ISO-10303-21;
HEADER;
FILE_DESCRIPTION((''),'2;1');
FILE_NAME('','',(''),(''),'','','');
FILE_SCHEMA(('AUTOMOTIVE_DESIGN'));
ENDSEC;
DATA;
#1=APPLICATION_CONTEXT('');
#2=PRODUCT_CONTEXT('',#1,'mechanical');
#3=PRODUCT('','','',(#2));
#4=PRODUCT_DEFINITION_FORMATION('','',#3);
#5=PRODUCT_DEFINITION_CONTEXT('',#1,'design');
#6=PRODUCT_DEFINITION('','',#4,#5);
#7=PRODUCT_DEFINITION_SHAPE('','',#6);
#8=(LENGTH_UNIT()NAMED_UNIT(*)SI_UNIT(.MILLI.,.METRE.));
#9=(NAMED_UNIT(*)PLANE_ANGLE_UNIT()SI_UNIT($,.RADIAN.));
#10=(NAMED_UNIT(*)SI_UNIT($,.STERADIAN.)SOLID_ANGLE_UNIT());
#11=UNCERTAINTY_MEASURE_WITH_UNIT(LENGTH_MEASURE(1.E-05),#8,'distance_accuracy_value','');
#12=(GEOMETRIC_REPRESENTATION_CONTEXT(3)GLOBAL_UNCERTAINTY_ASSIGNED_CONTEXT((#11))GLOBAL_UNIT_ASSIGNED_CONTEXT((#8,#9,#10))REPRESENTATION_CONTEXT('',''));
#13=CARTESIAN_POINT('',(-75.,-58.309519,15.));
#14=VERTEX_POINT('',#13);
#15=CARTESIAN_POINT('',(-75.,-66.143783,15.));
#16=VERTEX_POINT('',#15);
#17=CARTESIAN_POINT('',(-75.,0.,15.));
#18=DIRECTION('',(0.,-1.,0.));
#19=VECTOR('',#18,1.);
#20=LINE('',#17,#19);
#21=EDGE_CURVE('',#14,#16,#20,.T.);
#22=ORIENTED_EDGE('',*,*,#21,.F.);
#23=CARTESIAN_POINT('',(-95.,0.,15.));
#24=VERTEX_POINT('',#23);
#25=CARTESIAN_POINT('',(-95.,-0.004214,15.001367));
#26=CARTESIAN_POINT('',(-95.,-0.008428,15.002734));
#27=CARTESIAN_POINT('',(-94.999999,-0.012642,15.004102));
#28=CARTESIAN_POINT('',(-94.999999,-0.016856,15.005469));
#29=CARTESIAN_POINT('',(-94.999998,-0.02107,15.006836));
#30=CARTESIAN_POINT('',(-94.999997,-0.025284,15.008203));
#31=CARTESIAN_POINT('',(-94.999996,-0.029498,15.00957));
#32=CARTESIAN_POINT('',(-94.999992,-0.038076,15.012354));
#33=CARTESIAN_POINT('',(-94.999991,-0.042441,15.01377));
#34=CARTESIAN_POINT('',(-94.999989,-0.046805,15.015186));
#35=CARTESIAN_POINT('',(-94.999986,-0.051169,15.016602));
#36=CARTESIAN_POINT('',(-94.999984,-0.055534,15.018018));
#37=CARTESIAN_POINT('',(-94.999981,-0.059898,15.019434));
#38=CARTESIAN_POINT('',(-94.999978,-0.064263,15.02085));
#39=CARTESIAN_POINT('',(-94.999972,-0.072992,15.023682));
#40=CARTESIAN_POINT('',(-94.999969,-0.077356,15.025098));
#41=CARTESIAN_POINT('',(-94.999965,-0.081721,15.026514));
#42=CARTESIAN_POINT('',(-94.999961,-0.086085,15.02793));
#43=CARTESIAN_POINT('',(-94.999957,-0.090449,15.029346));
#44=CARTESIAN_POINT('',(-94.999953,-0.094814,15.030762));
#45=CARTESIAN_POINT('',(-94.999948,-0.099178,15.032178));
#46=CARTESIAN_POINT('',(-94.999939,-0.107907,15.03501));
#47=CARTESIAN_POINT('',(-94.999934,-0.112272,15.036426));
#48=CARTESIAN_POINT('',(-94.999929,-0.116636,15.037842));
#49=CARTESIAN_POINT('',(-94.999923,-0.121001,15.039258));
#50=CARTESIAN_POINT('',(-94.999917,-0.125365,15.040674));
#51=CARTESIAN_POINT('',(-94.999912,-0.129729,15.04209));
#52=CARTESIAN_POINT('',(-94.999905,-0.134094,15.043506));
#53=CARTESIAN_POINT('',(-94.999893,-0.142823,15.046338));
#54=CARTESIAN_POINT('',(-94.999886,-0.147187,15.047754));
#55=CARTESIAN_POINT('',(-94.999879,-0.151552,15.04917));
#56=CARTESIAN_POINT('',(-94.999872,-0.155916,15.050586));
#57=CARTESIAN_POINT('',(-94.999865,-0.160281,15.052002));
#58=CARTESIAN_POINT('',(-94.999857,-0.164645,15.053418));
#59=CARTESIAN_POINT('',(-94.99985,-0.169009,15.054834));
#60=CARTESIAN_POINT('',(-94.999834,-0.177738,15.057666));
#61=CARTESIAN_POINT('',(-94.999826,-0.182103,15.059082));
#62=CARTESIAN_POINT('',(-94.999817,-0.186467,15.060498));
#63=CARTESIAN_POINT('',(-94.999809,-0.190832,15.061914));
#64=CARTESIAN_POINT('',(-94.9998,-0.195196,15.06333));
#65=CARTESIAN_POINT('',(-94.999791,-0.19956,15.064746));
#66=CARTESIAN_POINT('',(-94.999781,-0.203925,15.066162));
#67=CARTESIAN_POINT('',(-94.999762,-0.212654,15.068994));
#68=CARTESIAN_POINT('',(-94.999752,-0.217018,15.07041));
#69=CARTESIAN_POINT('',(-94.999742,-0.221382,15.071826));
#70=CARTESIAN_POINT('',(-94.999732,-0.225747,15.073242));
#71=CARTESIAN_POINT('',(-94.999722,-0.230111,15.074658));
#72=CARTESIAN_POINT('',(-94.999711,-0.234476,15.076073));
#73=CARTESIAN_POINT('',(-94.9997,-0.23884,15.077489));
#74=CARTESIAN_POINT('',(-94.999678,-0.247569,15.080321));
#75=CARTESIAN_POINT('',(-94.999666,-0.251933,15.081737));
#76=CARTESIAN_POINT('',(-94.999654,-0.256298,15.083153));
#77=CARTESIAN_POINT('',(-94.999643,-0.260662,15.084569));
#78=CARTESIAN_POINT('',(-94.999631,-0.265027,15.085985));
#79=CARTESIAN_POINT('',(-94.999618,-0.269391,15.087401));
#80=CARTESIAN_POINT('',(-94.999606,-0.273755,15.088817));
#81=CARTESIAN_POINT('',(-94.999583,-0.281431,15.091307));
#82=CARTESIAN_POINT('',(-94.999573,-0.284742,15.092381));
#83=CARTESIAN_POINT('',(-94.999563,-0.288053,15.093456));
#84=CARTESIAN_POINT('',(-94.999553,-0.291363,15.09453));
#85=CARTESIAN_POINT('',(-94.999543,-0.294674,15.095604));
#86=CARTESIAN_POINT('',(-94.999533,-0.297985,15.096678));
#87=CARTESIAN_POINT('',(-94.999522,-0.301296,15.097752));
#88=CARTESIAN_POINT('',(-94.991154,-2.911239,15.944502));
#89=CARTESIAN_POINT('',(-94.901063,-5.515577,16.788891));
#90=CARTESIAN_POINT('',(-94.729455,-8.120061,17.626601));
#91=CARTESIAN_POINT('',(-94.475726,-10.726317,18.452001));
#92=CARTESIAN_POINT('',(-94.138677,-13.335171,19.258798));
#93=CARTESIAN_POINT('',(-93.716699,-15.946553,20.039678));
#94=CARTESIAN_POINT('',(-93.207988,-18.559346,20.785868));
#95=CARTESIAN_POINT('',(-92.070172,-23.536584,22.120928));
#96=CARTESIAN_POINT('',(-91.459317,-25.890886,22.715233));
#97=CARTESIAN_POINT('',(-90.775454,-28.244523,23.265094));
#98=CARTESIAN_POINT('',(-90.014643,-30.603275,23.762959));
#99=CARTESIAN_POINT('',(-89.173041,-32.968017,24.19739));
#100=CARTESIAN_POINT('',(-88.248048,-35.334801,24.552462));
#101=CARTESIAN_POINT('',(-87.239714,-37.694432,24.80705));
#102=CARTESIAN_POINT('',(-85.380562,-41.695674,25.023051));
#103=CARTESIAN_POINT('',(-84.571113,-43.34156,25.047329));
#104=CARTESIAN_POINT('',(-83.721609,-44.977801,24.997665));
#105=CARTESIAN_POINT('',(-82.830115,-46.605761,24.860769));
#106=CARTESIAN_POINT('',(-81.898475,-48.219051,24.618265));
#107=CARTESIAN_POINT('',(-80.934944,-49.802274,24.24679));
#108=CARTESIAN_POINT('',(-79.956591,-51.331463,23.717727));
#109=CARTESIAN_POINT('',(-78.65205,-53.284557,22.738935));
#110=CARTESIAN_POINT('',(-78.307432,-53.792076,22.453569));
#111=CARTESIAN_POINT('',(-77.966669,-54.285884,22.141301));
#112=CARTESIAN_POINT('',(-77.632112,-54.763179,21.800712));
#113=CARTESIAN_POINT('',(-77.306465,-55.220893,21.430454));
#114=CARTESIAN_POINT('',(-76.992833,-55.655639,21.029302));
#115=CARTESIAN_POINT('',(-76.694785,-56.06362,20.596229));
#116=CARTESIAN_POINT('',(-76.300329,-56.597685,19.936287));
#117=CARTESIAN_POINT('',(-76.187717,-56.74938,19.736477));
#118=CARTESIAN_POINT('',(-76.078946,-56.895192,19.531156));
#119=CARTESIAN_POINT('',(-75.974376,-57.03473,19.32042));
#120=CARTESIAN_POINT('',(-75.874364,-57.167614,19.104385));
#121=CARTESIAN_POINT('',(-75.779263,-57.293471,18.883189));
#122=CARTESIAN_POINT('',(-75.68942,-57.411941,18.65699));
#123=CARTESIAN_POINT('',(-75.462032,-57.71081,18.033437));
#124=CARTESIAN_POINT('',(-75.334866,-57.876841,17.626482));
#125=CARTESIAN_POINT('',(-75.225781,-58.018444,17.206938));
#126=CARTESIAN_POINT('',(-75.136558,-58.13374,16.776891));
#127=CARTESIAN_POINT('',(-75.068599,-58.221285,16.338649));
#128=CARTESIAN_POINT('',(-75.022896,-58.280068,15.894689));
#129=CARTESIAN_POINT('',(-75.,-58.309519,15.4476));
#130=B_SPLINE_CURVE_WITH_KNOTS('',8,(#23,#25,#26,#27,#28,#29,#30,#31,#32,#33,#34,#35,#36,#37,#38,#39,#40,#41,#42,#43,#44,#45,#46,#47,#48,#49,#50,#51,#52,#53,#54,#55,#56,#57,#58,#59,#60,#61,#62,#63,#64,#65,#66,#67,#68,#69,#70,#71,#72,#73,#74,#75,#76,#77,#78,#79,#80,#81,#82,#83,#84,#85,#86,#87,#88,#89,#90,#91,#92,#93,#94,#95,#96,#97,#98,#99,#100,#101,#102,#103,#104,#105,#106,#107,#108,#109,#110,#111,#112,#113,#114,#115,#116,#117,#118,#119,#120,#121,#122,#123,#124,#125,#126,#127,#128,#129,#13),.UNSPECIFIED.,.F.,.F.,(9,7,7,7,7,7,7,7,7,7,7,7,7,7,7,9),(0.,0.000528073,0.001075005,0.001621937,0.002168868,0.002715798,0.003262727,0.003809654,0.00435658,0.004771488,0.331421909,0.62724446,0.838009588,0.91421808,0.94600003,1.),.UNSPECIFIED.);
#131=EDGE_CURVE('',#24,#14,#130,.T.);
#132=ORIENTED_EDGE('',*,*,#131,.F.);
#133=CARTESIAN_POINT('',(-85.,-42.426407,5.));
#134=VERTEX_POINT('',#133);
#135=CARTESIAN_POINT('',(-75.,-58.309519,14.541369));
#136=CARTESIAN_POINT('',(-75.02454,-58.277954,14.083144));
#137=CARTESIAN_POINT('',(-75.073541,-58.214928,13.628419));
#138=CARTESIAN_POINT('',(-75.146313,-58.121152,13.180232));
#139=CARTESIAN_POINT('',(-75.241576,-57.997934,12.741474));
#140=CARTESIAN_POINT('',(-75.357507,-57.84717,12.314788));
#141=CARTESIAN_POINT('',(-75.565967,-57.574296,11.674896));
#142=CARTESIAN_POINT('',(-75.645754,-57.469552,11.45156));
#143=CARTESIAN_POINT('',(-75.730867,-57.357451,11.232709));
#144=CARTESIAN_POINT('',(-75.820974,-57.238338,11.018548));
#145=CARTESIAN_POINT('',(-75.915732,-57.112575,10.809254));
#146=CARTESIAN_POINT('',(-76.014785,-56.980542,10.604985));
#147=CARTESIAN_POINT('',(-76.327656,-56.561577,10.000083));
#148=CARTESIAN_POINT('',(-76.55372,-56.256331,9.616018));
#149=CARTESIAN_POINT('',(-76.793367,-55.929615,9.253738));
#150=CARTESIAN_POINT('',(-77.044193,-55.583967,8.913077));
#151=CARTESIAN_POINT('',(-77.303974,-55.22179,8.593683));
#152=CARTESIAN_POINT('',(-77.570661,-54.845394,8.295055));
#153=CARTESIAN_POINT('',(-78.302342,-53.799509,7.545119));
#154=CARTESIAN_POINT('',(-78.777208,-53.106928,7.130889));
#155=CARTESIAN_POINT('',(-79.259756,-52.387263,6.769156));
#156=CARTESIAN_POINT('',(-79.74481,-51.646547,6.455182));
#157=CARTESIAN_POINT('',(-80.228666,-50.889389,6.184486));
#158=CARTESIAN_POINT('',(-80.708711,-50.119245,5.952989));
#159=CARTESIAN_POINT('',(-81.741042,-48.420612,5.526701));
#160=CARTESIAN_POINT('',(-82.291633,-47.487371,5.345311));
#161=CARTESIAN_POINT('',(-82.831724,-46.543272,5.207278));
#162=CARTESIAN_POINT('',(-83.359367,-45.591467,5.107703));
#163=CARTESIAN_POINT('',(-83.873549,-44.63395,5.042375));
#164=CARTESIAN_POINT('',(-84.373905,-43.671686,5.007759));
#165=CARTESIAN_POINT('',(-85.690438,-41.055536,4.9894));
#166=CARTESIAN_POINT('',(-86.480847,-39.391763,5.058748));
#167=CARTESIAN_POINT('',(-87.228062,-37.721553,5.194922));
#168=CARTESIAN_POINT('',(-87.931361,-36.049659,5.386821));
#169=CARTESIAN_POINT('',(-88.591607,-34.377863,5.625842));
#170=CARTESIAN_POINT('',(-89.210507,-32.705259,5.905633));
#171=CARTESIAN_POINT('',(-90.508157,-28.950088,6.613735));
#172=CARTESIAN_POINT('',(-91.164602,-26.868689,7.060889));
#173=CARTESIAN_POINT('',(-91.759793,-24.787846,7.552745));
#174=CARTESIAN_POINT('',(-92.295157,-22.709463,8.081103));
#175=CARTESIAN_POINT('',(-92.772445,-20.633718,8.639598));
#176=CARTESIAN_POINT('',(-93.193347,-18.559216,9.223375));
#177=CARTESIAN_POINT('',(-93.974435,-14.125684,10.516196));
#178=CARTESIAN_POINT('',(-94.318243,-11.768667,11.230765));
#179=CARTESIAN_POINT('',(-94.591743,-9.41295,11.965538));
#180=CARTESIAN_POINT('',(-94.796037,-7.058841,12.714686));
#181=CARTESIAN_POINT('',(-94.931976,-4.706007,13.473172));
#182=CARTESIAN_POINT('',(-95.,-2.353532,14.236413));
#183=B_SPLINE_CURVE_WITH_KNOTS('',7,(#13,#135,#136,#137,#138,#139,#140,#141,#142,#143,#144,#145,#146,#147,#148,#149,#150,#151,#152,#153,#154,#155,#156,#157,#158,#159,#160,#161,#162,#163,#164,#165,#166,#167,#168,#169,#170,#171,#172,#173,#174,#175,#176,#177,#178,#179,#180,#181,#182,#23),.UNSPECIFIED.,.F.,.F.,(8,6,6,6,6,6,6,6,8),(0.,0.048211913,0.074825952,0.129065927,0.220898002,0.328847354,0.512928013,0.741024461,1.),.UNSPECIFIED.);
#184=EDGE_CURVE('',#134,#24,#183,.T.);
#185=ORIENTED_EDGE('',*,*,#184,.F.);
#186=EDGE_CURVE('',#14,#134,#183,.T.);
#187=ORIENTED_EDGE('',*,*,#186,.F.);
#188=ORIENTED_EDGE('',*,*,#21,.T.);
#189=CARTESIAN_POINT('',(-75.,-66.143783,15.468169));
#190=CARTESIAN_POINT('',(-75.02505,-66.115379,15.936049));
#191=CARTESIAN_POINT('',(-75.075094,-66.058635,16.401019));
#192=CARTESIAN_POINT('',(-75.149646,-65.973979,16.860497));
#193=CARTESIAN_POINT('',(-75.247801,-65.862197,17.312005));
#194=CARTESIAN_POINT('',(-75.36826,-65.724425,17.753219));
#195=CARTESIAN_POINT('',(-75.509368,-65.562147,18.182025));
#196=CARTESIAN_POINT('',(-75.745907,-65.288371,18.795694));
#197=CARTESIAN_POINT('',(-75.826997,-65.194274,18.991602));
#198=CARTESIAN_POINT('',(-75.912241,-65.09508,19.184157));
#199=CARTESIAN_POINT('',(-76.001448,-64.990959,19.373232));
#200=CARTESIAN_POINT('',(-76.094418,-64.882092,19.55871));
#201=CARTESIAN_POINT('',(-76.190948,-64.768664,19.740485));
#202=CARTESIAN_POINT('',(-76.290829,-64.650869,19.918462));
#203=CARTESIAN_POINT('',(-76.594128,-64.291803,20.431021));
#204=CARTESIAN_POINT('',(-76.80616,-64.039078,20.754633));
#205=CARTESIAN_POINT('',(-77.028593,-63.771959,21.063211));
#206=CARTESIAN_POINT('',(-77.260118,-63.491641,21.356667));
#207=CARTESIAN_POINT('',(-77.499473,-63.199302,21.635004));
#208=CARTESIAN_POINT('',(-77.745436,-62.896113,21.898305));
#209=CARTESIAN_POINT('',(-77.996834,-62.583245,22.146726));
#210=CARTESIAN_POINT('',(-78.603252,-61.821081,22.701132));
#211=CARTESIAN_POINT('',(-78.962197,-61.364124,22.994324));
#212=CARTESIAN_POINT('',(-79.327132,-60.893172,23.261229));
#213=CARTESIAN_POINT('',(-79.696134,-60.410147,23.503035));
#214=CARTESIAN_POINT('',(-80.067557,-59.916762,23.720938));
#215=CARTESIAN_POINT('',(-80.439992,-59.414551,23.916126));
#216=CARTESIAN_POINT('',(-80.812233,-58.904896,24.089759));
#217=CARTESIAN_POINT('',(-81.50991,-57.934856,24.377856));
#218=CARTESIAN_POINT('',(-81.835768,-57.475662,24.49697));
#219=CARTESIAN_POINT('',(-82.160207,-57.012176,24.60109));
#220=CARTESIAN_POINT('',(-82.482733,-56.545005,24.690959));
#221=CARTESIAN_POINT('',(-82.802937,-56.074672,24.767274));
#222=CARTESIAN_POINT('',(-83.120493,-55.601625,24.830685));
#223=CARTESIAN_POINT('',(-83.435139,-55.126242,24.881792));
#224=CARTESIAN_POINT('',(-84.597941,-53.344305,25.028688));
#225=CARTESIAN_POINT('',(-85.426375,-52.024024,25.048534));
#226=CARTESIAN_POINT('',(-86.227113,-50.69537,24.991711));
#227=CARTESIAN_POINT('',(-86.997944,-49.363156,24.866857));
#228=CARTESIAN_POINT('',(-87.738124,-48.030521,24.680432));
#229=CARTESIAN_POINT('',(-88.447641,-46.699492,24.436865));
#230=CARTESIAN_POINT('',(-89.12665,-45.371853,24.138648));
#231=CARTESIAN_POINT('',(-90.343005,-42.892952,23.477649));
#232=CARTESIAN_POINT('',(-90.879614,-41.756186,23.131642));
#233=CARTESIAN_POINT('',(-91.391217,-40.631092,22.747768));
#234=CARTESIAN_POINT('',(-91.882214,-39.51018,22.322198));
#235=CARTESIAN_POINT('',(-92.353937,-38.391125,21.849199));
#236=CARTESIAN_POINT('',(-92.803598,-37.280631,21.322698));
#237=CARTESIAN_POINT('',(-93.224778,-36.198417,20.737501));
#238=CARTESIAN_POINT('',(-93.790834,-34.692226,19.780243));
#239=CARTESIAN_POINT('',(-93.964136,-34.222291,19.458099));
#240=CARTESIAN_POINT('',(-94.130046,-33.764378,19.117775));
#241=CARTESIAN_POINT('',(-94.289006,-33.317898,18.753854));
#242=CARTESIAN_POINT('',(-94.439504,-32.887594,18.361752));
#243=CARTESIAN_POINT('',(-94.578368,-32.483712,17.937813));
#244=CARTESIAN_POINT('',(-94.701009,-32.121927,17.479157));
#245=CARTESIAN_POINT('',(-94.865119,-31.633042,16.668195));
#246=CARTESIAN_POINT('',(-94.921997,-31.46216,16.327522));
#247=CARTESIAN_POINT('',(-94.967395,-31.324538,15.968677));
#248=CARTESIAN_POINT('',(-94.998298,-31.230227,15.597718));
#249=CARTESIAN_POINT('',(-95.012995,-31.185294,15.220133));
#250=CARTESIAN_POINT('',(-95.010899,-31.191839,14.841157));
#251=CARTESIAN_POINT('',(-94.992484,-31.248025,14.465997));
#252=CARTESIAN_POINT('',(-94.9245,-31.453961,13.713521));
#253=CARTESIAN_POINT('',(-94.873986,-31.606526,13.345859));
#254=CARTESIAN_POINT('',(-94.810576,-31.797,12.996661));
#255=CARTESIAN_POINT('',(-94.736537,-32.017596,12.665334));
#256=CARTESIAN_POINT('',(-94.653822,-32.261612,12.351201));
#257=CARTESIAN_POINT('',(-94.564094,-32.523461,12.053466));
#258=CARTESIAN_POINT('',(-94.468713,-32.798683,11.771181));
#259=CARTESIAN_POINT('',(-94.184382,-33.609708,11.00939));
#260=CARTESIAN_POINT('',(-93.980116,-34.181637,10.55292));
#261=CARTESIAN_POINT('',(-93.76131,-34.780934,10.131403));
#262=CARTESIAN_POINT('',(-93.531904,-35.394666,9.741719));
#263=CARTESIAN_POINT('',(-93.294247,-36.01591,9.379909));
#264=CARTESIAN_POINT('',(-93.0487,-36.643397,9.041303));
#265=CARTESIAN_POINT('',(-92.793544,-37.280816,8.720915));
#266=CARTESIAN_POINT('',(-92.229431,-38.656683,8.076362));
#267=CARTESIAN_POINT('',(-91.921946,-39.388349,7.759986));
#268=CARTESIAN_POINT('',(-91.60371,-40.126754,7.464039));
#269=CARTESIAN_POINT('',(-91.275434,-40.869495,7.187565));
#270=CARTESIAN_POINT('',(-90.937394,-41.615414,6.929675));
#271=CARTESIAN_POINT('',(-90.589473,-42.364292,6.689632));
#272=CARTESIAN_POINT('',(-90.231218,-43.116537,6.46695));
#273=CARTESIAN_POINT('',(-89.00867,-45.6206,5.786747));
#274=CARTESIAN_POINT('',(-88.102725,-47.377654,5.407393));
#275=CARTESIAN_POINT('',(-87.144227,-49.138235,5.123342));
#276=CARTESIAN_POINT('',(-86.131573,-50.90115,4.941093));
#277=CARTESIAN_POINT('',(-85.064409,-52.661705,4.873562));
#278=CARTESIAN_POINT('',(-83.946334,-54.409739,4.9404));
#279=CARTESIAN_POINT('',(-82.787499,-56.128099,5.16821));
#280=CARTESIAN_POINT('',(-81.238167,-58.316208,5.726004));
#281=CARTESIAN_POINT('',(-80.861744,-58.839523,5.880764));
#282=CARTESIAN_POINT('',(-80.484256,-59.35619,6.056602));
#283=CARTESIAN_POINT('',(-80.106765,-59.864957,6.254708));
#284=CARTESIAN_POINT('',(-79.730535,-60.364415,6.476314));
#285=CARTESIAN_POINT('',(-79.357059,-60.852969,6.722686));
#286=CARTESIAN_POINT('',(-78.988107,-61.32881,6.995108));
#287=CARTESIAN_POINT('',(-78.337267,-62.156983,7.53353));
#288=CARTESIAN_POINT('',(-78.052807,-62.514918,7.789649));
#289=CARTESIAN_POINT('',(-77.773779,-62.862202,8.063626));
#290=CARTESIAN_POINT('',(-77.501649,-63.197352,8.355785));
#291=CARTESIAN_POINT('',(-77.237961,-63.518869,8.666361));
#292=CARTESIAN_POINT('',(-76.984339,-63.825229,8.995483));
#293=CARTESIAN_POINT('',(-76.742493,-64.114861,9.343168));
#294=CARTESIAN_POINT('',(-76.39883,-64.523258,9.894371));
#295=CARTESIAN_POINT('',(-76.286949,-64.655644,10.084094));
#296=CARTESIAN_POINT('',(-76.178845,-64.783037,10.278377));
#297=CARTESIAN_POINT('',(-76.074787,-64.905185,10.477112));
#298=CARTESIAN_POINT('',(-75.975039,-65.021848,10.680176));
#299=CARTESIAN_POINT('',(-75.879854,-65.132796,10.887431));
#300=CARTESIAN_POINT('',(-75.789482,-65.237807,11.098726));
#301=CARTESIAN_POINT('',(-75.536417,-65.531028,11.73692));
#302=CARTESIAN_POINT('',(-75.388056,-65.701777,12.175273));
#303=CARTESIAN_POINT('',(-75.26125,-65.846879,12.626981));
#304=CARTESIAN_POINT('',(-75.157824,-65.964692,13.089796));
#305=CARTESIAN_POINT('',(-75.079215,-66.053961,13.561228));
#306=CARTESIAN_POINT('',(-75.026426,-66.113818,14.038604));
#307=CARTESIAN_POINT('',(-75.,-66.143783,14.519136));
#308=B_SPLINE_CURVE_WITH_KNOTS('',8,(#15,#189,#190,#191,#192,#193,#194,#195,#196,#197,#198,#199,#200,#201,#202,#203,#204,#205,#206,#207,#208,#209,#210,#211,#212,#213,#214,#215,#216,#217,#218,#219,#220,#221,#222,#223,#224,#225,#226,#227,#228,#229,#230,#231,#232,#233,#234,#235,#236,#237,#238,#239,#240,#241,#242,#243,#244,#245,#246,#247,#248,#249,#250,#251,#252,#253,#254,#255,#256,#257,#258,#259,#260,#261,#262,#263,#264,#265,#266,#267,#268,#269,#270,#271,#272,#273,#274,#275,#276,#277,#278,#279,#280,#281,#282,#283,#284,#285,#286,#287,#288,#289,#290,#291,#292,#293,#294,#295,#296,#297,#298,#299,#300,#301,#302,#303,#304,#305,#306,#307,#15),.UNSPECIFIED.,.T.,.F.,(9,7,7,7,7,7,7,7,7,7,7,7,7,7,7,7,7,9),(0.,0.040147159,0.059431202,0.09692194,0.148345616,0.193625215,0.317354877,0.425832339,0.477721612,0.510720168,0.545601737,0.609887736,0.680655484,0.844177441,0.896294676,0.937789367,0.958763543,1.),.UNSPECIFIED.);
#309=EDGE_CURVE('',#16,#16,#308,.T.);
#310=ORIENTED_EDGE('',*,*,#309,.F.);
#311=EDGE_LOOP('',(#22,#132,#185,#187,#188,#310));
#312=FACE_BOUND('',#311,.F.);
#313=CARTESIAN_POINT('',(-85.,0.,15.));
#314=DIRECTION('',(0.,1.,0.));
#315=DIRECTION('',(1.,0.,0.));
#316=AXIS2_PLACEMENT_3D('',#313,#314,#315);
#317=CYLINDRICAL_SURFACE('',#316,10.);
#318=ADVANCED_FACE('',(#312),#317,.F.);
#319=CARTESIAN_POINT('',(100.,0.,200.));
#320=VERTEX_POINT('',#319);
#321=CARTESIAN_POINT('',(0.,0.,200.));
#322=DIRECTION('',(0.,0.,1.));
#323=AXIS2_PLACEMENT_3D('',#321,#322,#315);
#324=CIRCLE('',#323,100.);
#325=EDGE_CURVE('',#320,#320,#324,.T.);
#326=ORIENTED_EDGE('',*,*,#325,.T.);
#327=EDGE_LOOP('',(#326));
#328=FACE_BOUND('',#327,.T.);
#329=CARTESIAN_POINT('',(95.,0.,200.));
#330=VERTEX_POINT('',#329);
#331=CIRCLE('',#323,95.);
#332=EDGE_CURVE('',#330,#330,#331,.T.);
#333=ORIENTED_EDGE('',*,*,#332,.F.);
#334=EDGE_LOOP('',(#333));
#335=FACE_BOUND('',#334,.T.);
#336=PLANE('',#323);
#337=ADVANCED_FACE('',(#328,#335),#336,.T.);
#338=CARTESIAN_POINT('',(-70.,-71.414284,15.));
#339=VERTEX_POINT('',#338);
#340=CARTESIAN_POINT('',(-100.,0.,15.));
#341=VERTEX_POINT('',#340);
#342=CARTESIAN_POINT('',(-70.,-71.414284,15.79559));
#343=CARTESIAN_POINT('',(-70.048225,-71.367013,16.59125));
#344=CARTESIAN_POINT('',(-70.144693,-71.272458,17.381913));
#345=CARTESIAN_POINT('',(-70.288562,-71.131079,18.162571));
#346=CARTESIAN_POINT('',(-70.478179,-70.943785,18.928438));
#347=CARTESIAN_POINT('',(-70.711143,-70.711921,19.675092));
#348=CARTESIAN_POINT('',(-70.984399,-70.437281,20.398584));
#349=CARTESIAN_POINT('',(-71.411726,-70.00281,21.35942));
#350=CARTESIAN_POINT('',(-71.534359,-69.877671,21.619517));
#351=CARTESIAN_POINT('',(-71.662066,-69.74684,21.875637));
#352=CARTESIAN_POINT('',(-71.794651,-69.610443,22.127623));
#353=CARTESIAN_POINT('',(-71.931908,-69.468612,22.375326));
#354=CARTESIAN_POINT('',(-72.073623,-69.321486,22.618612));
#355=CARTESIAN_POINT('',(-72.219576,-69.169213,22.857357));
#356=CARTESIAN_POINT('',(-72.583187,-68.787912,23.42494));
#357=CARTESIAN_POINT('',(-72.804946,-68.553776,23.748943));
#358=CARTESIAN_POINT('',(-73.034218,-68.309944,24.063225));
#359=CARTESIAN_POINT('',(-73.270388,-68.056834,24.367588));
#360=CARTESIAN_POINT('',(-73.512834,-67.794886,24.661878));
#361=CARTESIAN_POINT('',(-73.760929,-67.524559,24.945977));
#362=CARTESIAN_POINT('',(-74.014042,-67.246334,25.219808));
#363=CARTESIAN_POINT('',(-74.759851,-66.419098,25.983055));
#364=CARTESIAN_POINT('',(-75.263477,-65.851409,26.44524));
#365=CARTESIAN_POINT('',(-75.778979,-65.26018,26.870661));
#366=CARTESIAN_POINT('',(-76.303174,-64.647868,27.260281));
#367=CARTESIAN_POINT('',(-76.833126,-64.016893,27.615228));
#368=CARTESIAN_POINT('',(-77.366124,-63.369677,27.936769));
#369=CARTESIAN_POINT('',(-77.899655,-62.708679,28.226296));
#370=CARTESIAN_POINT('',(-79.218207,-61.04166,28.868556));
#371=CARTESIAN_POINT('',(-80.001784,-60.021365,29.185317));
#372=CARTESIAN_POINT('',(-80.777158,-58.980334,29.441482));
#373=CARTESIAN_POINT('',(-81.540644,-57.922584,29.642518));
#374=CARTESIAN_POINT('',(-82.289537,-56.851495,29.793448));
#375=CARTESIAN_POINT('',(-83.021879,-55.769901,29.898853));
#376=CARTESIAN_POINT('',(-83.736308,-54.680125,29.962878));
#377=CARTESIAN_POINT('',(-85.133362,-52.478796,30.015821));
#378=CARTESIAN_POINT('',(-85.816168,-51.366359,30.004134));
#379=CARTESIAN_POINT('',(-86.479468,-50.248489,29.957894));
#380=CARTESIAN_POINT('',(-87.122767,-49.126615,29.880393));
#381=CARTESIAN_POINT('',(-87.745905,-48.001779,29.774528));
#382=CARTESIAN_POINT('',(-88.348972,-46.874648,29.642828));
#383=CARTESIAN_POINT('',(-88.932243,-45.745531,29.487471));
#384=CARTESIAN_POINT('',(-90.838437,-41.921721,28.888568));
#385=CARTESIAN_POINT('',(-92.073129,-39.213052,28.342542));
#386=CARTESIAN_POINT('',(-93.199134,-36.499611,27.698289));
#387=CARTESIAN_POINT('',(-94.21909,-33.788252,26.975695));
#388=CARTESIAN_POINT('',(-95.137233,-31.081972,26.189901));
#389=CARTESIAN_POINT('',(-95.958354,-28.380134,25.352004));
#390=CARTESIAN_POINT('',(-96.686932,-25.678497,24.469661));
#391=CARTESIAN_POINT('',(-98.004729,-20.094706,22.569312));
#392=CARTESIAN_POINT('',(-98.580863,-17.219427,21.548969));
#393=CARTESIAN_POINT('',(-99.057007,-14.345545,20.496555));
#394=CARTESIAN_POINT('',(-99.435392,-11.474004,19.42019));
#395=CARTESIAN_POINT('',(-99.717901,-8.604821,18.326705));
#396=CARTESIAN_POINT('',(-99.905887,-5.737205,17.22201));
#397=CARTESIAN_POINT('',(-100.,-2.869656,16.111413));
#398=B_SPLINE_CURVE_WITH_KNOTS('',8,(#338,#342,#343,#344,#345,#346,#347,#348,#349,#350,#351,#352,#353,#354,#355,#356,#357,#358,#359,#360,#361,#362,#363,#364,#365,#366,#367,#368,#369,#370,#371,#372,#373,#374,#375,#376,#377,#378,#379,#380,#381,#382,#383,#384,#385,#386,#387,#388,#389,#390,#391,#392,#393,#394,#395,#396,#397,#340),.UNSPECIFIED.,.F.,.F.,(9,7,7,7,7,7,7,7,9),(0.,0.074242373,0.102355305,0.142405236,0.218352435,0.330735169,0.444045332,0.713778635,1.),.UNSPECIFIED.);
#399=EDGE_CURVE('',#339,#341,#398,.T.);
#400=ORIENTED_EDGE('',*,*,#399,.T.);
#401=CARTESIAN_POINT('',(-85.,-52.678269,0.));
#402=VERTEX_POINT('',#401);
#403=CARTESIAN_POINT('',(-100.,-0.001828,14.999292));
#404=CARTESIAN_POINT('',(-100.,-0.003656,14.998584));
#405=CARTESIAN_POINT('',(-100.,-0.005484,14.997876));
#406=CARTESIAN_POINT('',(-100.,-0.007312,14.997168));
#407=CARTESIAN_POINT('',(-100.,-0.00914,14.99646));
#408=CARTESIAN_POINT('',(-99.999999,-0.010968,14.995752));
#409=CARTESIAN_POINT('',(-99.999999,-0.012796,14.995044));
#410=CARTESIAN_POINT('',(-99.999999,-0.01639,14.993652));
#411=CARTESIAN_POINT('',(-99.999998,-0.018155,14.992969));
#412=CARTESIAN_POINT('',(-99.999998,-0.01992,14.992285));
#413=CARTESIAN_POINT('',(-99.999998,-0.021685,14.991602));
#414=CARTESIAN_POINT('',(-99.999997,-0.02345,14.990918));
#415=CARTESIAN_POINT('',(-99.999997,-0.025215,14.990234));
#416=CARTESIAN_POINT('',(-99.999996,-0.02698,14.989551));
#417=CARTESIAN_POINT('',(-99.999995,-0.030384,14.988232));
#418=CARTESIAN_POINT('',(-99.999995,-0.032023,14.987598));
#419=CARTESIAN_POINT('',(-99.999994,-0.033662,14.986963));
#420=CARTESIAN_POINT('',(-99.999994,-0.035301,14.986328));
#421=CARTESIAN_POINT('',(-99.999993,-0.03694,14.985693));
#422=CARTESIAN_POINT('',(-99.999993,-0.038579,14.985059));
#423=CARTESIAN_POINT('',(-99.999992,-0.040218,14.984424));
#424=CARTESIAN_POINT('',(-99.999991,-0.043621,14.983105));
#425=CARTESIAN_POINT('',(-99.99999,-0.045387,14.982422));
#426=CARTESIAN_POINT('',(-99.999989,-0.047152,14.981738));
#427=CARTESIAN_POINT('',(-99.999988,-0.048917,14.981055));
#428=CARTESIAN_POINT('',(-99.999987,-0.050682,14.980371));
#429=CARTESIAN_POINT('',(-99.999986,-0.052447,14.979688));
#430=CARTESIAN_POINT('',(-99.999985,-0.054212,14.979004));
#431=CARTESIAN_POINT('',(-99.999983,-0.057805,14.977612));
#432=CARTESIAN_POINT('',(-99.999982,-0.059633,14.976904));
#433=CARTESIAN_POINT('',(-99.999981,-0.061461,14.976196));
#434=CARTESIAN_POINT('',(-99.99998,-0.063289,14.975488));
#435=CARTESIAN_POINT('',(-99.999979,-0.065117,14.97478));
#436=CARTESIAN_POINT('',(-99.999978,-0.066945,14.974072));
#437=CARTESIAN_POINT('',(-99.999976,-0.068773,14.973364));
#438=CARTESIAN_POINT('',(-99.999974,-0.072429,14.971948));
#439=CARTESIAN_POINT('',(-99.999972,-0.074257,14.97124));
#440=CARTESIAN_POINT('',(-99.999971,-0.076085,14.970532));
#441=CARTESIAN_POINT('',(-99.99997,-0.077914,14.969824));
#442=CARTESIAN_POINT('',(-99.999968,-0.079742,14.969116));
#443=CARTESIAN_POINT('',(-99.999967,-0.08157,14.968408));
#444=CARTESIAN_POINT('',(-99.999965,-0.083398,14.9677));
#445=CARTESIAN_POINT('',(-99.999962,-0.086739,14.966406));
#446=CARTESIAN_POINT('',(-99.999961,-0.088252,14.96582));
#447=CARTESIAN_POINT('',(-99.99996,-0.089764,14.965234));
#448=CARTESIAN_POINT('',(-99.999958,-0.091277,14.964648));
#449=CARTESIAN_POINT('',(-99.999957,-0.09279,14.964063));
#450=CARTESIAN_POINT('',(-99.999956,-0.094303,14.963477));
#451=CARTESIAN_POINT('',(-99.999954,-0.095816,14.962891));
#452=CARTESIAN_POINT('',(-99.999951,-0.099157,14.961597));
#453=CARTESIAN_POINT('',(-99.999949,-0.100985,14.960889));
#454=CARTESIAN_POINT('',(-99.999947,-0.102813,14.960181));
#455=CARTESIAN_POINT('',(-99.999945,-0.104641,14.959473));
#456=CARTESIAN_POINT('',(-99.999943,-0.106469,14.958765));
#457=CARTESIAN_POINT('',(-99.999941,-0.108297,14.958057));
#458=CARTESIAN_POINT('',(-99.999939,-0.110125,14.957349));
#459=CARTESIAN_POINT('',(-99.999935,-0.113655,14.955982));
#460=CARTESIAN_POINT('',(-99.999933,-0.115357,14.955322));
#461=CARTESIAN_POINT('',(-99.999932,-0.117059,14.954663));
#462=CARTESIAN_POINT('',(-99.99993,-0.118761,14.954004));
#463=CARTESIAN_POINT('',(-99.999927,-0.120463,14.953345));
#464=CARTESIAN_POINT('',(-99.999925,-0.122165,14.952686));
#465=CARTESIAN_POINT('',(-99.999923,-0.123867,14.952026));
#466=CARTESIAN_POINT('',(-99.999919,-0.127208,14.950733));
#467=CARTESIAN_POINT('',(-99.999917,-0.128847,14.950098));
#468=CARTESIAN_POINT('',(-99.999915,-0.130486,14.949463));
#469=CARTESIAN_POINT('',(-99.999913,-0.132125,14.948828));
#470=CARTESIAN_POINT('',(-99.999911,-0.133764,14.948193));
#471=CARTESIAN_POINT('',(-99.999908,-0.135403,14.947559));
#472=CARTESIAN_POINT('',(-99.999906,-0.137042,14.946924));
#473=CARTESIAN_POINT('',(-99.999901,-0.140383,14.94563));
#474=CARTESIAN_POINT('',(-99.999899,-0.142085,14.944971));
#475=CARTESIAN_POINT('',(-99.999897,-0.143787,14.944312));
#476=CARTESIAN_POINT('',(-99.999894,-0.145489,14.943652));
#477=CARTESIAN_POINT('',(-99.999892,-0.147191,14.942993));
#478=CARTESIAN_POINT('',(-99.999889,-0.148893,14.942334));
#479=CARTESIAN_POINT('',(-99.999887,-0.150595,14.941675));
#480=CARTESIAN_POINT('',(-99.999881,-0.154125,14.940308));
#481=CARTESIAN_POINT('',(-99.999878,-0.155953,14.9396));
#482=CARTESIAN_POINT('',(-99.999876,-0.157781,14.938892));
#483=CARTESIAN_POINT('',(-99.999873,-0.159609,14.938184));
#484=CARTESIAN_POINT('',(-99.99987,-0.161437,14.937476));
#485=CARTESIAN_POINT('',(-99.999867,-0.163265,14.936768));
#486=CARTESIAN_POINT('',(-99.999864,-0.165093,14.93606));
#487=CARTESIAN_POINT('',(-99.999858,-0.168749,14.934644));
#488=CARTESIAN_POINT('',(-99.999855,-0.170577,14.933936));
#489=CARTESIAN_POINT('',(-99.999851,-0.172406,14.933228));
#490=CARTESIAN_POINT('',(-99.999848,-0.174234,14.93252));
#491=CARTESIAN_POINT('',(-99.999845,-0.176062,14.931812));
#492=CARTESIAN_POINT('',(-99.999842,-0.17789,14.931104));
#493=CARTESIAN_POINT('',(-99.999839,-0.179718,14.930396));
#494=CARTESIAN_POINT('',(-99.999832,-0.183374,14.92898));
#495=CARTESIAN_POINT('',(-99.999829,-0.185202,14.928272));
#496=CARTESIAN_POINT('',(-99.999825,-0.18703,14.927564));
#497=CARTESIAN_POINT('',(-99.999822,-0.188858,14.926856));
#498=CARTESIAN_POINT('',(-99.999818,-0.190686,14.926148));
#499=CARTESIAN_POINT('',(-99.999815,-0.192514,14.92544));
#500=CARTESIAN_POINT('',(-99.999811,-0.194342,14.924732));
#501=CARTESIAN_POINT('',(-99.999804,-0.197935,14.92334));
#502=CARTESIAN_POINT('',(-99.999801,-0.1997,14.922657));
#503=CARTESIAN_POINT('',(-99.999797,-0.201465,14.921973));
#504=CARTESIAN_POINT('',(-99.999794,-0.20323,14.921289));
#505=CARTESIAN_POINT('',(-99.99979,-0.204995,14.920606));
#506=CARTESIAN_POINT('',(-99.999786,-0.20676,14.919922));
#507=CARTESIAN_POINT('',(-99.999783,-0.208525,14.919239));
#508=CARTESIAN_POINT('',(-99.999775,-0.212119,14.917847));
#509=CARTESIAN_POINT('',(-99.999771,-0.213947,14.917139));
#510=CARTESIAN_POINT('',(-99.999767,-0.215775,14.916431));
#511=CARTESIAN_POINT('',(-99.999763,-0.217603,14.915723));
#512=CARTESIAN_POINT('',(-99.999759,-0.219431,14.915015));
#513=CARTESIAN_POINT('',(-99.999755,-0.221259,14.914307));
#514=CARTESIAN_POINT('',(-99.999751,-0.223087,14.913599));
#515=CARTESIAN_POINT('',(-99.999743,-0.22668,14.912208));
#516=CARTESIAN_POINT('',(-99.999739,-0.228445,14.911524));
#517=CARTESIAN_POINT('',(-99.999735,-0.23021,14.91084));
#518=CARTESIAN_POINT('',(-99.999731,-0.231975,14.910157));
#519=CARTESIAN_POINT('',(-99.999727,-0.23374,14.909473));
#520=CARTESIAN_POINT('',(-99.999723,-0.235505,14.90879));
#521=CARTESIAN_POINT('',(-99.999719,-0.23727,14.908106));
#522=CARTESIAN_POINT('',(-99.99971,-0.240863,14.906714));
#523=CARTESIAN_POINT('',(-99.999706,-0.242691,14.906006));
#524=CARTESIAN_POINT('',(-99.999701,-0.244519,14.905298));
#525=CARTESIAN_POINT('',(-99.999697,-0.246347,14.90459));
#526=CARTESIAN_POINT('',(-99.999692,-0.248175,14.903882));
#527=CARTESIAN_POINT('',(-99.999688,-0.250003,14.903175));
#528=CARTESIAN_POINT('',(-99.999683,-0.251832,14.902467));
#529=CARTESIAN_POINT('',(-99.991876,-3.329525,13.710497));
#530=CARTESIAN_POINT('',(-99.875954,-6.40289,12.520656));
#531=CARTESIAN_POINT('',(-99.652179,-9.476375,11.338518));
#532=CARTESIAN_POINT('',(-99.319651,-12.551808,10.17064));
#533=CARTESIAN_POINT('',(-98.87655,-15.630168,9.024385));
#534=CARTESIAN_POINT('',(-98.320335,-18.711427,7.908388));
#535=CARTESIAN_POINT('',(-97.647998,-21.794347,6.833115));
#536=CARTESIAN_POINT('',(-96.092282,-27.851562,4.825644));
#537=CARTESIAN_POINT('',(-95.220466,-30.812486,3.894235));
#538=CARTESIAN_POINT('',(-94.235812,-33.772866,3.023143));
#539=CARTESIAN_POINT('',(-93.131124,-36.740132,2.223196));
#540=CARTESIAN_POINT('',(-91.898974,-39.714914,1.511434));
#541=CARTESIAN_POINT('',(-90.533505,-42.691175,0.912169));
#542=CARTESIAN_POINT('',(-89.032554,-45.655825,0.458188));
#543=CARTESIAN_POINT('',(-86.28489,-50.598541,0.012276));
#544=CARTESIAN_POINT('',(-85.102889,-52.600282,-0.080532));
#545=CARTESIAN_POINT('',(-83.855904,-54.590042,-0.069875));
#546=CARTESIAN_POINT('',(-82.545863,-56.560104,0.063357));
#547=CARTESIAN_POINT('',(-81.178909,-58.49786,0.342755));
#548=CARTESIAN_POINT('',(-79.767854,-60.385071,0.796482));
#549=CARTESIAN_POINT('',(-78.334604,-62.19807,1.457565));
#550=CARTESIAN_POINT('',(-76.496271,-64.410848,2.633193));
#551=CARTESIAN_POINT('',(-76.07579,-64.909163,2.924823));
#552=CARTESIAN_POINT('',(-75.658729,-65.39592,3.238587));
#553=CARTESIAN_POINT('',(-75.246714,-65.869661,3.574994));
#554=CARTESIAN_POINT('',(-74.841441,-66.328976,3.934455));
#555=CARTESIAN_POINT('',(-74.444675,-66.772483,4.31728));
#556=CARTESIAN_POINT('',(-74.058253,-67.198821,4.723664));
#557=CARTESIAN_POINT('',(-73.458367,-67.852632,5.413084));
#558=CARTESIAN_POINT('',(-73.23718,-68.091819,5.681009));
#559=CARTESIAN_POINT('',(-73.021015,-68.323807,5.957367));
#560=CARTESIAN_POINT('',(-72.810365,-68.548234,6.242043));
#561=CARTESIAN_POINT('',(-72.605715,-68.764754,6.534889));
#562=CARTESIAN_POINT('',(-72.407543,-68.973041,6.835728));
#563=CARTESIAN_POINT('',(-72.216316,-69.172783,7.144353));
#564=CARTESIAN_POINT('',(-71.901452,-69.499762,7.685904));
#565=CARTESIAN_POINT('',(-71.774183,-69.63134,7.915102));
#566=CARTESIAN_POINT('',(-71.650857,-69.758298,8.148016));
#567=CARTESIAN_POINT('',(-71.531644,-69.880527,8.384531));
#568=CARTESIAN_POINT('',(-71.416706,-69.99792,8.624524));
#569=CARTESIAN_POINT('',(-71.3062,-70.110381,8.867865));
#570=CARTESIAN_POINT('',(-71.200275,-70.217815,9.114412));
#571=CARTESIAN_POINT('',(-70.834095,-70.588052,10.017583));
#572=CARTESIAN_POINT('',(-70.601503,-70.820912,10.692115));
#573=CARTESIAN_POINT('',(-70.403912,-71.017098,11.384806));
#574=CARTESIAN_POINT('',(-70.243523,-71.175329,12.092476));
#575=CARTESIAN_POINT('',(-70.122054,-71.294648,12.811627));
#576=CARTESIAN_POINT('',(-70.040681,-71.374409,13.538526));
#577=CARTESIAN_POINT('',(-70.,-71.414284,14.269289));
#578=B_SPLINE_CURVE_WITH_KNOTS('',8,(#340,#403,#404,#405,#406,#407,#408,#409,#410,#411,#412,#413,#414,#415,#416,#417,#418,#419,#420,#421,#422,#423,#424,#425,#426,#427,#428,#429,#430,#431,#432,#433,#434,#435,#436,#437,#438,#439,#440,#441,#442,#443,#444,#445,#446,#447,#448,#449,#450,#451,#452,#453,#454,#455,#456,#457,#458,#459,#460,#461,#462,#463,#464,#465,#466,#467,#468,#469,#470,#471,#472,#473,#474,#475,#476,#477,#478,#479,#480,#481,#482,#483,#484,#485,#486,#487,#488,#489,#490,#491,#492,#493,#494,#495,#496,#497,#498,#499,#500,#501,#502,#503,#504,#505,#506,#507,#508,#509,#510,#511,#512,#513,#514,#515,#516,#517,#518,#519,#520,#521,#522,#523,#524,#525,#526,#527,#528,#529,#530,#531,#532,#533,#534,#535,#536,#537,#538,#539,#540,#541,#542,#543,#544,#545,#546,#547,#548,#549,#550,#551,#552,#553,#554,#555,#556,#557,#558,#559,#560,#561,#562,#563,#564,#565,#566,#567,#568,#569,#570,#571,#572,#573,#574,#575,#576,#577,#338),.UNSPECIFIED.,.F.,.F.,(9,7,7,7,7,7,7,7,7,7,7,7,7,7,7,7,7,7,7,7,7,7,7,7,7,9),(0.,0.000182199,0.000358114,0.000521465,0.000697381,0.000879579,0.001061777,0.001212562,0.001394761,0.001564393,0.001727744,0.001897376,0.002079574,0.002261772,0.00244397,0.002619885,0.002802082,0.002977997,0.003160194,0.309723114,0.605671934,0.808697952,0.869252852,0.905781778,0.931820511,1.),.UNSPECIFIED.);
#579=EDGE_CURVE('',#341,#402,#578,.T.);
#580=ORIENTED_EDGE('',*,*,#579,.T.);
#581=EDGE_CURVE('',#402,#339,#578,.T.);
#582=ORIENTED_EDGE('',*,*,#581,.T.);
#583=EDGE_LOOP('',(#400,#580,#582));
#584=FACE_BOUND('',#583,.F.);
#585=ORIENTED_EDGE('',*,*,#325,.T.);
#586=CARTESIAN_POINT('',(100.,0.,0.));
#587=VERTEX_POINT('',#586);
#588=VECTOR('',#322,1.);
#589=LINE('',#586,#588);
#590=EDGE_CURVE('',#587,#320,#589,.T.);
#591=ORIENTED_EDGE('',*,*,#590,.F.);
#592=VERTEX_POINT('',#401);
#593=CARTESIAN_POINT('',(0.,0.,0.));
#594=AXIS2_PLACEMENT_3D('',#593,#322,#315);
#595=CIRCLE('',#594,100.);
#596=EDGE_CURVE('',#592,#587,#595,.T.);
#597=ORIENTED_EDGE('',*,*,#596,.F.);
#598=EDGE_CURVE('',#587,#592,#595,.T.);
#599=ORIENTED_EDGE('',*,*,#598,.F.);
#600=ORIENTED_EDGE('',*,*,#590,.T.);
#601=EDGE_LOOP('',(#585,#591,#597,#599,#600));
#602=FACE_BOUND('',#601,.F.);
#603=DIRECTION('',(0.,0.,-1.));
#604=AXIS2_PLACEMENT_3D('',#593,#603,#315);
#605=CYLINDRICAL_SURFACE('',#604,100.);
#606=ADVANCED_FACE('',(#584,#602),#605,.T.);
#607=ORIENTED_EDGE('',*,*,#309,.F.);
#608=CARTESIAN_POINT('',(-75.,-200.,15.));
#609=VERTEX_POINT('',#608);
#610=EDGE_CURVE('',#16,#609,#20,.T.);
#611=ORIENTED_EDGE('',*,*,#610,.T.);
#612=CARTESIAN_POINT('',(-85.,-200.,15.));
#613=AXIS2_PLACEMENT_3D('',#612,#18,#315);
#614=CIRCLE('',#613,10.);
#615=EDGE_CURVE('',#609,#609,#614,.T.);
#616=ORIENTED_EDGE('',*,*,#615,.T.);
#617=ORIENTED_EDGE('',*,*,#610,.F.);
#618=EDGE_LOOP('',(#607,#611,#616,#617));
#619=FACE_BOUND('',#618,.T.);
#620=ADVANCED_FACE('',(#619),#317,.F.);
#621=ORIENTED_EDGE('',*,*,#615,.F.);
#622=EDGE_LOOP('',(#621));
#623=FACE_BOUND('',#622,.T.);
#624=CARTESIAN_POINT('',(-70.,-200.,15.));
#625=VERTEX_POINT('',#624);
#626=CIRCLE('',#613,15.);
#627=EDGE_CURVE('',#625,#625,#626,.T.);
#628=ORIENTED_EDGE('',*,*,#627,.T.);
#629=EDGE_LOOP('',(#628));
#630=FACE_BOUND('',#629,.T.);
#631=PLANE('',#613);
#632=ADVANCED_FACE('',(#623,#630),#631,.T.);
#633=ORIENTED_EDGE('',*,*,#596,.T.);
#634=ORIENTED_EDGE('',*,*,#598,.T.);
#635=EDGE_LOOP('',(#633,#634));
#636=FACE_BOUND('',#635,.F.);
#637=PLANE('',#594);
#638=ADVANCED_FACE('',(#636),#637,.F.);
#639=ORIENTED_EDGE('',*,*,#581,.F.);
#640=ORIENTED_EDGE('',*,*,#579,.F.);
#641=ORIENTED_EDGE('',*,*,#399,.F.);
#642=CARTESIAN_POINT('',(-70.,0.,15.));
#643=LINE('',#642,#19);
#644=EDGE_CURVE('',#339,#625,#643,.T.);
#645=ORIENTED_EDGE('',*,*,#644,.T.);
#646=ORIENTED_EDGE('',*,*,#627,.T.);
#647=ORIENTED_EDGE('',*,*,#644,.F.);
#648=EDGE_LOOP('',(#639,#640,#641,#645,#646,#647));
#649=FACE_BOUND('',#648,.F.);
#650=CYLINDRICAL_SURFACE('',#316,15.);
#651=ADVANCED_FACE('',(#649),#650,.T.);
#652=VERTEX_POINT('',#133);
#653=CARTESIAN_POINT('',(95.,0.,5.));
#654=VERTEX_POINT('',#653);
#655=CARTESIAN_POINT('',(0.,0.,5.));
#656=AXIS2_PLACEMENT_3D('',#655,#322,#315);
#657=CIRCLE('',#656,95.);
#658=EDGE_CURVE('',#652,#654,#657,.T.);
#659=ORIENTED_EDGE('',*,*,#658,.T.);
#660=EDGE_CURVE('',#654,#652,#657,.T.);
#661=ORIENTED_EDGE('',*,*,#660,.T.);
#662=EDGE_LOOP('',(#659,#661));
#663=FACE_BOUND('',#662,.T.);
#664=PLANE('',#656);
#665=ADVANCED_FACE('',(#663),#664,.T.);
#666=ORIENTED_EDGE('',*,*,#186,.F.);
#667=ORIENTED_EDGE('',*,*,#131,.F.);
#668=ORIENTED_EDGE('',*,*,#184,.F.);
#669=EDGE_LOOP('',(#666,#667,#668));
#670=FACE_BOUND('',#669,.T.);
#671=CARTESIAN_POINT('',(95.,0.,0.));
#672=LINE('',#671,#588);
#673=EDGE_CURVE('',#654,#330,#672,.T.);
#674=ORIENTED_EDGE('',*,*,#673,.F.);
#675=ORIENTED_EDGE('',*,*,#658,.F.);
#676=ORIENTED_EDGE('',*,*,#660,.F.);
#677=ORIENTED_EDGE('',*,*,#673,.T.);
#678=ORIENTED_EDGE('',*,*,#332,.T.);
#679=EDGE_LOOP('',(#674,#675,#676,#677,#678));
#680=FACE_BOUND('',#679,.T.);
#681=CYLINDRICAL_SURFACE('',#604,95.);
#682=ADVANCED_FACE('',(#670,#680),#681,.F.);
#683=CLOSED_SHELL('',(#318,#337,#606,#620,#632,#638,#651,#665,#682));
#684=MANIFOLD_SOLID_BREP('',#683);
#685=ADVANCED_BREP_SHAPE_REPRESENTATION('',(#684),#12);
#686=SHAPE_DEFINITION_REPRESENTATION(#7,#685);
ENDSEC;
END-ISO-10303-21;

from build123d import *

# Parameters (mm, degrees)
F0_R     = 15
F0_R_2   = 10
F1_DEPTH = 200
F3_W     = 572.0791816711
F3_H     = 457.3649317026
F3_R     = 100
F4_DEPTH = 60
F6_R     = 95
F7_DEPTH = 5
F6_R_2   = 100
F8_DEPTH = 200
F9_D     = 20
F9_DEPTH = 200.0010001


with BuildPart() as f1:
    # F0 (on Front) → F1 (new body)
    with BuildSketch(Plane.XZ):
        with Locations((-85, 15)):
            Circle(F0_R)
        with Locations((-85, 15)):
            Circle(F0_R_2, mode=Mode.SUBTRACT)
    extrude(amount=F1_DEPTH)

    # F3 (on offset) → F4 (intersect)
    with BuildSketch(Plane.XY.offset(-20)):
        with Locations((-14.546662569, -7.4936076999)):
            Rectangle(F3_W, F3_H)
        Circle(F3_R, mode=Mode.SUBTRACT)
    extrude(amount=F4_DEPTH, mode=Mode.INTERSECT)



with BuildPart() as f7:
    # F6 (on Top) → F7 (new body)
    with BuildSketch(Plane.XY):
        Circle(F6_R)
    extrude(amount=F7_DEPTH)


with BuildPart() as f1_1:
    add(f1.part)

    add(f7.part)  # F8 merges F7
    # F6 (on Top) → F8 (join)
    with BuildSketch(Plane.XY):
        Circle(F6_R_2)
        Circle(F6_R, mode=Mode.SUBTRACT)
    extrude(amount=F8_DEPTH)

    # F9 (through all, one way)
    with BuildSketch(Plane(origin=(0, 0, 0), x_dir=(1, 0, 0), z_dir=(0, 1, 0))):
        with Locations((-85, -15)):
            Circle(F9_D / 2)
    extrude(amount=-F9_DEPTH, mode=Mode.SUBTRACT)


solid = f1_1.part
